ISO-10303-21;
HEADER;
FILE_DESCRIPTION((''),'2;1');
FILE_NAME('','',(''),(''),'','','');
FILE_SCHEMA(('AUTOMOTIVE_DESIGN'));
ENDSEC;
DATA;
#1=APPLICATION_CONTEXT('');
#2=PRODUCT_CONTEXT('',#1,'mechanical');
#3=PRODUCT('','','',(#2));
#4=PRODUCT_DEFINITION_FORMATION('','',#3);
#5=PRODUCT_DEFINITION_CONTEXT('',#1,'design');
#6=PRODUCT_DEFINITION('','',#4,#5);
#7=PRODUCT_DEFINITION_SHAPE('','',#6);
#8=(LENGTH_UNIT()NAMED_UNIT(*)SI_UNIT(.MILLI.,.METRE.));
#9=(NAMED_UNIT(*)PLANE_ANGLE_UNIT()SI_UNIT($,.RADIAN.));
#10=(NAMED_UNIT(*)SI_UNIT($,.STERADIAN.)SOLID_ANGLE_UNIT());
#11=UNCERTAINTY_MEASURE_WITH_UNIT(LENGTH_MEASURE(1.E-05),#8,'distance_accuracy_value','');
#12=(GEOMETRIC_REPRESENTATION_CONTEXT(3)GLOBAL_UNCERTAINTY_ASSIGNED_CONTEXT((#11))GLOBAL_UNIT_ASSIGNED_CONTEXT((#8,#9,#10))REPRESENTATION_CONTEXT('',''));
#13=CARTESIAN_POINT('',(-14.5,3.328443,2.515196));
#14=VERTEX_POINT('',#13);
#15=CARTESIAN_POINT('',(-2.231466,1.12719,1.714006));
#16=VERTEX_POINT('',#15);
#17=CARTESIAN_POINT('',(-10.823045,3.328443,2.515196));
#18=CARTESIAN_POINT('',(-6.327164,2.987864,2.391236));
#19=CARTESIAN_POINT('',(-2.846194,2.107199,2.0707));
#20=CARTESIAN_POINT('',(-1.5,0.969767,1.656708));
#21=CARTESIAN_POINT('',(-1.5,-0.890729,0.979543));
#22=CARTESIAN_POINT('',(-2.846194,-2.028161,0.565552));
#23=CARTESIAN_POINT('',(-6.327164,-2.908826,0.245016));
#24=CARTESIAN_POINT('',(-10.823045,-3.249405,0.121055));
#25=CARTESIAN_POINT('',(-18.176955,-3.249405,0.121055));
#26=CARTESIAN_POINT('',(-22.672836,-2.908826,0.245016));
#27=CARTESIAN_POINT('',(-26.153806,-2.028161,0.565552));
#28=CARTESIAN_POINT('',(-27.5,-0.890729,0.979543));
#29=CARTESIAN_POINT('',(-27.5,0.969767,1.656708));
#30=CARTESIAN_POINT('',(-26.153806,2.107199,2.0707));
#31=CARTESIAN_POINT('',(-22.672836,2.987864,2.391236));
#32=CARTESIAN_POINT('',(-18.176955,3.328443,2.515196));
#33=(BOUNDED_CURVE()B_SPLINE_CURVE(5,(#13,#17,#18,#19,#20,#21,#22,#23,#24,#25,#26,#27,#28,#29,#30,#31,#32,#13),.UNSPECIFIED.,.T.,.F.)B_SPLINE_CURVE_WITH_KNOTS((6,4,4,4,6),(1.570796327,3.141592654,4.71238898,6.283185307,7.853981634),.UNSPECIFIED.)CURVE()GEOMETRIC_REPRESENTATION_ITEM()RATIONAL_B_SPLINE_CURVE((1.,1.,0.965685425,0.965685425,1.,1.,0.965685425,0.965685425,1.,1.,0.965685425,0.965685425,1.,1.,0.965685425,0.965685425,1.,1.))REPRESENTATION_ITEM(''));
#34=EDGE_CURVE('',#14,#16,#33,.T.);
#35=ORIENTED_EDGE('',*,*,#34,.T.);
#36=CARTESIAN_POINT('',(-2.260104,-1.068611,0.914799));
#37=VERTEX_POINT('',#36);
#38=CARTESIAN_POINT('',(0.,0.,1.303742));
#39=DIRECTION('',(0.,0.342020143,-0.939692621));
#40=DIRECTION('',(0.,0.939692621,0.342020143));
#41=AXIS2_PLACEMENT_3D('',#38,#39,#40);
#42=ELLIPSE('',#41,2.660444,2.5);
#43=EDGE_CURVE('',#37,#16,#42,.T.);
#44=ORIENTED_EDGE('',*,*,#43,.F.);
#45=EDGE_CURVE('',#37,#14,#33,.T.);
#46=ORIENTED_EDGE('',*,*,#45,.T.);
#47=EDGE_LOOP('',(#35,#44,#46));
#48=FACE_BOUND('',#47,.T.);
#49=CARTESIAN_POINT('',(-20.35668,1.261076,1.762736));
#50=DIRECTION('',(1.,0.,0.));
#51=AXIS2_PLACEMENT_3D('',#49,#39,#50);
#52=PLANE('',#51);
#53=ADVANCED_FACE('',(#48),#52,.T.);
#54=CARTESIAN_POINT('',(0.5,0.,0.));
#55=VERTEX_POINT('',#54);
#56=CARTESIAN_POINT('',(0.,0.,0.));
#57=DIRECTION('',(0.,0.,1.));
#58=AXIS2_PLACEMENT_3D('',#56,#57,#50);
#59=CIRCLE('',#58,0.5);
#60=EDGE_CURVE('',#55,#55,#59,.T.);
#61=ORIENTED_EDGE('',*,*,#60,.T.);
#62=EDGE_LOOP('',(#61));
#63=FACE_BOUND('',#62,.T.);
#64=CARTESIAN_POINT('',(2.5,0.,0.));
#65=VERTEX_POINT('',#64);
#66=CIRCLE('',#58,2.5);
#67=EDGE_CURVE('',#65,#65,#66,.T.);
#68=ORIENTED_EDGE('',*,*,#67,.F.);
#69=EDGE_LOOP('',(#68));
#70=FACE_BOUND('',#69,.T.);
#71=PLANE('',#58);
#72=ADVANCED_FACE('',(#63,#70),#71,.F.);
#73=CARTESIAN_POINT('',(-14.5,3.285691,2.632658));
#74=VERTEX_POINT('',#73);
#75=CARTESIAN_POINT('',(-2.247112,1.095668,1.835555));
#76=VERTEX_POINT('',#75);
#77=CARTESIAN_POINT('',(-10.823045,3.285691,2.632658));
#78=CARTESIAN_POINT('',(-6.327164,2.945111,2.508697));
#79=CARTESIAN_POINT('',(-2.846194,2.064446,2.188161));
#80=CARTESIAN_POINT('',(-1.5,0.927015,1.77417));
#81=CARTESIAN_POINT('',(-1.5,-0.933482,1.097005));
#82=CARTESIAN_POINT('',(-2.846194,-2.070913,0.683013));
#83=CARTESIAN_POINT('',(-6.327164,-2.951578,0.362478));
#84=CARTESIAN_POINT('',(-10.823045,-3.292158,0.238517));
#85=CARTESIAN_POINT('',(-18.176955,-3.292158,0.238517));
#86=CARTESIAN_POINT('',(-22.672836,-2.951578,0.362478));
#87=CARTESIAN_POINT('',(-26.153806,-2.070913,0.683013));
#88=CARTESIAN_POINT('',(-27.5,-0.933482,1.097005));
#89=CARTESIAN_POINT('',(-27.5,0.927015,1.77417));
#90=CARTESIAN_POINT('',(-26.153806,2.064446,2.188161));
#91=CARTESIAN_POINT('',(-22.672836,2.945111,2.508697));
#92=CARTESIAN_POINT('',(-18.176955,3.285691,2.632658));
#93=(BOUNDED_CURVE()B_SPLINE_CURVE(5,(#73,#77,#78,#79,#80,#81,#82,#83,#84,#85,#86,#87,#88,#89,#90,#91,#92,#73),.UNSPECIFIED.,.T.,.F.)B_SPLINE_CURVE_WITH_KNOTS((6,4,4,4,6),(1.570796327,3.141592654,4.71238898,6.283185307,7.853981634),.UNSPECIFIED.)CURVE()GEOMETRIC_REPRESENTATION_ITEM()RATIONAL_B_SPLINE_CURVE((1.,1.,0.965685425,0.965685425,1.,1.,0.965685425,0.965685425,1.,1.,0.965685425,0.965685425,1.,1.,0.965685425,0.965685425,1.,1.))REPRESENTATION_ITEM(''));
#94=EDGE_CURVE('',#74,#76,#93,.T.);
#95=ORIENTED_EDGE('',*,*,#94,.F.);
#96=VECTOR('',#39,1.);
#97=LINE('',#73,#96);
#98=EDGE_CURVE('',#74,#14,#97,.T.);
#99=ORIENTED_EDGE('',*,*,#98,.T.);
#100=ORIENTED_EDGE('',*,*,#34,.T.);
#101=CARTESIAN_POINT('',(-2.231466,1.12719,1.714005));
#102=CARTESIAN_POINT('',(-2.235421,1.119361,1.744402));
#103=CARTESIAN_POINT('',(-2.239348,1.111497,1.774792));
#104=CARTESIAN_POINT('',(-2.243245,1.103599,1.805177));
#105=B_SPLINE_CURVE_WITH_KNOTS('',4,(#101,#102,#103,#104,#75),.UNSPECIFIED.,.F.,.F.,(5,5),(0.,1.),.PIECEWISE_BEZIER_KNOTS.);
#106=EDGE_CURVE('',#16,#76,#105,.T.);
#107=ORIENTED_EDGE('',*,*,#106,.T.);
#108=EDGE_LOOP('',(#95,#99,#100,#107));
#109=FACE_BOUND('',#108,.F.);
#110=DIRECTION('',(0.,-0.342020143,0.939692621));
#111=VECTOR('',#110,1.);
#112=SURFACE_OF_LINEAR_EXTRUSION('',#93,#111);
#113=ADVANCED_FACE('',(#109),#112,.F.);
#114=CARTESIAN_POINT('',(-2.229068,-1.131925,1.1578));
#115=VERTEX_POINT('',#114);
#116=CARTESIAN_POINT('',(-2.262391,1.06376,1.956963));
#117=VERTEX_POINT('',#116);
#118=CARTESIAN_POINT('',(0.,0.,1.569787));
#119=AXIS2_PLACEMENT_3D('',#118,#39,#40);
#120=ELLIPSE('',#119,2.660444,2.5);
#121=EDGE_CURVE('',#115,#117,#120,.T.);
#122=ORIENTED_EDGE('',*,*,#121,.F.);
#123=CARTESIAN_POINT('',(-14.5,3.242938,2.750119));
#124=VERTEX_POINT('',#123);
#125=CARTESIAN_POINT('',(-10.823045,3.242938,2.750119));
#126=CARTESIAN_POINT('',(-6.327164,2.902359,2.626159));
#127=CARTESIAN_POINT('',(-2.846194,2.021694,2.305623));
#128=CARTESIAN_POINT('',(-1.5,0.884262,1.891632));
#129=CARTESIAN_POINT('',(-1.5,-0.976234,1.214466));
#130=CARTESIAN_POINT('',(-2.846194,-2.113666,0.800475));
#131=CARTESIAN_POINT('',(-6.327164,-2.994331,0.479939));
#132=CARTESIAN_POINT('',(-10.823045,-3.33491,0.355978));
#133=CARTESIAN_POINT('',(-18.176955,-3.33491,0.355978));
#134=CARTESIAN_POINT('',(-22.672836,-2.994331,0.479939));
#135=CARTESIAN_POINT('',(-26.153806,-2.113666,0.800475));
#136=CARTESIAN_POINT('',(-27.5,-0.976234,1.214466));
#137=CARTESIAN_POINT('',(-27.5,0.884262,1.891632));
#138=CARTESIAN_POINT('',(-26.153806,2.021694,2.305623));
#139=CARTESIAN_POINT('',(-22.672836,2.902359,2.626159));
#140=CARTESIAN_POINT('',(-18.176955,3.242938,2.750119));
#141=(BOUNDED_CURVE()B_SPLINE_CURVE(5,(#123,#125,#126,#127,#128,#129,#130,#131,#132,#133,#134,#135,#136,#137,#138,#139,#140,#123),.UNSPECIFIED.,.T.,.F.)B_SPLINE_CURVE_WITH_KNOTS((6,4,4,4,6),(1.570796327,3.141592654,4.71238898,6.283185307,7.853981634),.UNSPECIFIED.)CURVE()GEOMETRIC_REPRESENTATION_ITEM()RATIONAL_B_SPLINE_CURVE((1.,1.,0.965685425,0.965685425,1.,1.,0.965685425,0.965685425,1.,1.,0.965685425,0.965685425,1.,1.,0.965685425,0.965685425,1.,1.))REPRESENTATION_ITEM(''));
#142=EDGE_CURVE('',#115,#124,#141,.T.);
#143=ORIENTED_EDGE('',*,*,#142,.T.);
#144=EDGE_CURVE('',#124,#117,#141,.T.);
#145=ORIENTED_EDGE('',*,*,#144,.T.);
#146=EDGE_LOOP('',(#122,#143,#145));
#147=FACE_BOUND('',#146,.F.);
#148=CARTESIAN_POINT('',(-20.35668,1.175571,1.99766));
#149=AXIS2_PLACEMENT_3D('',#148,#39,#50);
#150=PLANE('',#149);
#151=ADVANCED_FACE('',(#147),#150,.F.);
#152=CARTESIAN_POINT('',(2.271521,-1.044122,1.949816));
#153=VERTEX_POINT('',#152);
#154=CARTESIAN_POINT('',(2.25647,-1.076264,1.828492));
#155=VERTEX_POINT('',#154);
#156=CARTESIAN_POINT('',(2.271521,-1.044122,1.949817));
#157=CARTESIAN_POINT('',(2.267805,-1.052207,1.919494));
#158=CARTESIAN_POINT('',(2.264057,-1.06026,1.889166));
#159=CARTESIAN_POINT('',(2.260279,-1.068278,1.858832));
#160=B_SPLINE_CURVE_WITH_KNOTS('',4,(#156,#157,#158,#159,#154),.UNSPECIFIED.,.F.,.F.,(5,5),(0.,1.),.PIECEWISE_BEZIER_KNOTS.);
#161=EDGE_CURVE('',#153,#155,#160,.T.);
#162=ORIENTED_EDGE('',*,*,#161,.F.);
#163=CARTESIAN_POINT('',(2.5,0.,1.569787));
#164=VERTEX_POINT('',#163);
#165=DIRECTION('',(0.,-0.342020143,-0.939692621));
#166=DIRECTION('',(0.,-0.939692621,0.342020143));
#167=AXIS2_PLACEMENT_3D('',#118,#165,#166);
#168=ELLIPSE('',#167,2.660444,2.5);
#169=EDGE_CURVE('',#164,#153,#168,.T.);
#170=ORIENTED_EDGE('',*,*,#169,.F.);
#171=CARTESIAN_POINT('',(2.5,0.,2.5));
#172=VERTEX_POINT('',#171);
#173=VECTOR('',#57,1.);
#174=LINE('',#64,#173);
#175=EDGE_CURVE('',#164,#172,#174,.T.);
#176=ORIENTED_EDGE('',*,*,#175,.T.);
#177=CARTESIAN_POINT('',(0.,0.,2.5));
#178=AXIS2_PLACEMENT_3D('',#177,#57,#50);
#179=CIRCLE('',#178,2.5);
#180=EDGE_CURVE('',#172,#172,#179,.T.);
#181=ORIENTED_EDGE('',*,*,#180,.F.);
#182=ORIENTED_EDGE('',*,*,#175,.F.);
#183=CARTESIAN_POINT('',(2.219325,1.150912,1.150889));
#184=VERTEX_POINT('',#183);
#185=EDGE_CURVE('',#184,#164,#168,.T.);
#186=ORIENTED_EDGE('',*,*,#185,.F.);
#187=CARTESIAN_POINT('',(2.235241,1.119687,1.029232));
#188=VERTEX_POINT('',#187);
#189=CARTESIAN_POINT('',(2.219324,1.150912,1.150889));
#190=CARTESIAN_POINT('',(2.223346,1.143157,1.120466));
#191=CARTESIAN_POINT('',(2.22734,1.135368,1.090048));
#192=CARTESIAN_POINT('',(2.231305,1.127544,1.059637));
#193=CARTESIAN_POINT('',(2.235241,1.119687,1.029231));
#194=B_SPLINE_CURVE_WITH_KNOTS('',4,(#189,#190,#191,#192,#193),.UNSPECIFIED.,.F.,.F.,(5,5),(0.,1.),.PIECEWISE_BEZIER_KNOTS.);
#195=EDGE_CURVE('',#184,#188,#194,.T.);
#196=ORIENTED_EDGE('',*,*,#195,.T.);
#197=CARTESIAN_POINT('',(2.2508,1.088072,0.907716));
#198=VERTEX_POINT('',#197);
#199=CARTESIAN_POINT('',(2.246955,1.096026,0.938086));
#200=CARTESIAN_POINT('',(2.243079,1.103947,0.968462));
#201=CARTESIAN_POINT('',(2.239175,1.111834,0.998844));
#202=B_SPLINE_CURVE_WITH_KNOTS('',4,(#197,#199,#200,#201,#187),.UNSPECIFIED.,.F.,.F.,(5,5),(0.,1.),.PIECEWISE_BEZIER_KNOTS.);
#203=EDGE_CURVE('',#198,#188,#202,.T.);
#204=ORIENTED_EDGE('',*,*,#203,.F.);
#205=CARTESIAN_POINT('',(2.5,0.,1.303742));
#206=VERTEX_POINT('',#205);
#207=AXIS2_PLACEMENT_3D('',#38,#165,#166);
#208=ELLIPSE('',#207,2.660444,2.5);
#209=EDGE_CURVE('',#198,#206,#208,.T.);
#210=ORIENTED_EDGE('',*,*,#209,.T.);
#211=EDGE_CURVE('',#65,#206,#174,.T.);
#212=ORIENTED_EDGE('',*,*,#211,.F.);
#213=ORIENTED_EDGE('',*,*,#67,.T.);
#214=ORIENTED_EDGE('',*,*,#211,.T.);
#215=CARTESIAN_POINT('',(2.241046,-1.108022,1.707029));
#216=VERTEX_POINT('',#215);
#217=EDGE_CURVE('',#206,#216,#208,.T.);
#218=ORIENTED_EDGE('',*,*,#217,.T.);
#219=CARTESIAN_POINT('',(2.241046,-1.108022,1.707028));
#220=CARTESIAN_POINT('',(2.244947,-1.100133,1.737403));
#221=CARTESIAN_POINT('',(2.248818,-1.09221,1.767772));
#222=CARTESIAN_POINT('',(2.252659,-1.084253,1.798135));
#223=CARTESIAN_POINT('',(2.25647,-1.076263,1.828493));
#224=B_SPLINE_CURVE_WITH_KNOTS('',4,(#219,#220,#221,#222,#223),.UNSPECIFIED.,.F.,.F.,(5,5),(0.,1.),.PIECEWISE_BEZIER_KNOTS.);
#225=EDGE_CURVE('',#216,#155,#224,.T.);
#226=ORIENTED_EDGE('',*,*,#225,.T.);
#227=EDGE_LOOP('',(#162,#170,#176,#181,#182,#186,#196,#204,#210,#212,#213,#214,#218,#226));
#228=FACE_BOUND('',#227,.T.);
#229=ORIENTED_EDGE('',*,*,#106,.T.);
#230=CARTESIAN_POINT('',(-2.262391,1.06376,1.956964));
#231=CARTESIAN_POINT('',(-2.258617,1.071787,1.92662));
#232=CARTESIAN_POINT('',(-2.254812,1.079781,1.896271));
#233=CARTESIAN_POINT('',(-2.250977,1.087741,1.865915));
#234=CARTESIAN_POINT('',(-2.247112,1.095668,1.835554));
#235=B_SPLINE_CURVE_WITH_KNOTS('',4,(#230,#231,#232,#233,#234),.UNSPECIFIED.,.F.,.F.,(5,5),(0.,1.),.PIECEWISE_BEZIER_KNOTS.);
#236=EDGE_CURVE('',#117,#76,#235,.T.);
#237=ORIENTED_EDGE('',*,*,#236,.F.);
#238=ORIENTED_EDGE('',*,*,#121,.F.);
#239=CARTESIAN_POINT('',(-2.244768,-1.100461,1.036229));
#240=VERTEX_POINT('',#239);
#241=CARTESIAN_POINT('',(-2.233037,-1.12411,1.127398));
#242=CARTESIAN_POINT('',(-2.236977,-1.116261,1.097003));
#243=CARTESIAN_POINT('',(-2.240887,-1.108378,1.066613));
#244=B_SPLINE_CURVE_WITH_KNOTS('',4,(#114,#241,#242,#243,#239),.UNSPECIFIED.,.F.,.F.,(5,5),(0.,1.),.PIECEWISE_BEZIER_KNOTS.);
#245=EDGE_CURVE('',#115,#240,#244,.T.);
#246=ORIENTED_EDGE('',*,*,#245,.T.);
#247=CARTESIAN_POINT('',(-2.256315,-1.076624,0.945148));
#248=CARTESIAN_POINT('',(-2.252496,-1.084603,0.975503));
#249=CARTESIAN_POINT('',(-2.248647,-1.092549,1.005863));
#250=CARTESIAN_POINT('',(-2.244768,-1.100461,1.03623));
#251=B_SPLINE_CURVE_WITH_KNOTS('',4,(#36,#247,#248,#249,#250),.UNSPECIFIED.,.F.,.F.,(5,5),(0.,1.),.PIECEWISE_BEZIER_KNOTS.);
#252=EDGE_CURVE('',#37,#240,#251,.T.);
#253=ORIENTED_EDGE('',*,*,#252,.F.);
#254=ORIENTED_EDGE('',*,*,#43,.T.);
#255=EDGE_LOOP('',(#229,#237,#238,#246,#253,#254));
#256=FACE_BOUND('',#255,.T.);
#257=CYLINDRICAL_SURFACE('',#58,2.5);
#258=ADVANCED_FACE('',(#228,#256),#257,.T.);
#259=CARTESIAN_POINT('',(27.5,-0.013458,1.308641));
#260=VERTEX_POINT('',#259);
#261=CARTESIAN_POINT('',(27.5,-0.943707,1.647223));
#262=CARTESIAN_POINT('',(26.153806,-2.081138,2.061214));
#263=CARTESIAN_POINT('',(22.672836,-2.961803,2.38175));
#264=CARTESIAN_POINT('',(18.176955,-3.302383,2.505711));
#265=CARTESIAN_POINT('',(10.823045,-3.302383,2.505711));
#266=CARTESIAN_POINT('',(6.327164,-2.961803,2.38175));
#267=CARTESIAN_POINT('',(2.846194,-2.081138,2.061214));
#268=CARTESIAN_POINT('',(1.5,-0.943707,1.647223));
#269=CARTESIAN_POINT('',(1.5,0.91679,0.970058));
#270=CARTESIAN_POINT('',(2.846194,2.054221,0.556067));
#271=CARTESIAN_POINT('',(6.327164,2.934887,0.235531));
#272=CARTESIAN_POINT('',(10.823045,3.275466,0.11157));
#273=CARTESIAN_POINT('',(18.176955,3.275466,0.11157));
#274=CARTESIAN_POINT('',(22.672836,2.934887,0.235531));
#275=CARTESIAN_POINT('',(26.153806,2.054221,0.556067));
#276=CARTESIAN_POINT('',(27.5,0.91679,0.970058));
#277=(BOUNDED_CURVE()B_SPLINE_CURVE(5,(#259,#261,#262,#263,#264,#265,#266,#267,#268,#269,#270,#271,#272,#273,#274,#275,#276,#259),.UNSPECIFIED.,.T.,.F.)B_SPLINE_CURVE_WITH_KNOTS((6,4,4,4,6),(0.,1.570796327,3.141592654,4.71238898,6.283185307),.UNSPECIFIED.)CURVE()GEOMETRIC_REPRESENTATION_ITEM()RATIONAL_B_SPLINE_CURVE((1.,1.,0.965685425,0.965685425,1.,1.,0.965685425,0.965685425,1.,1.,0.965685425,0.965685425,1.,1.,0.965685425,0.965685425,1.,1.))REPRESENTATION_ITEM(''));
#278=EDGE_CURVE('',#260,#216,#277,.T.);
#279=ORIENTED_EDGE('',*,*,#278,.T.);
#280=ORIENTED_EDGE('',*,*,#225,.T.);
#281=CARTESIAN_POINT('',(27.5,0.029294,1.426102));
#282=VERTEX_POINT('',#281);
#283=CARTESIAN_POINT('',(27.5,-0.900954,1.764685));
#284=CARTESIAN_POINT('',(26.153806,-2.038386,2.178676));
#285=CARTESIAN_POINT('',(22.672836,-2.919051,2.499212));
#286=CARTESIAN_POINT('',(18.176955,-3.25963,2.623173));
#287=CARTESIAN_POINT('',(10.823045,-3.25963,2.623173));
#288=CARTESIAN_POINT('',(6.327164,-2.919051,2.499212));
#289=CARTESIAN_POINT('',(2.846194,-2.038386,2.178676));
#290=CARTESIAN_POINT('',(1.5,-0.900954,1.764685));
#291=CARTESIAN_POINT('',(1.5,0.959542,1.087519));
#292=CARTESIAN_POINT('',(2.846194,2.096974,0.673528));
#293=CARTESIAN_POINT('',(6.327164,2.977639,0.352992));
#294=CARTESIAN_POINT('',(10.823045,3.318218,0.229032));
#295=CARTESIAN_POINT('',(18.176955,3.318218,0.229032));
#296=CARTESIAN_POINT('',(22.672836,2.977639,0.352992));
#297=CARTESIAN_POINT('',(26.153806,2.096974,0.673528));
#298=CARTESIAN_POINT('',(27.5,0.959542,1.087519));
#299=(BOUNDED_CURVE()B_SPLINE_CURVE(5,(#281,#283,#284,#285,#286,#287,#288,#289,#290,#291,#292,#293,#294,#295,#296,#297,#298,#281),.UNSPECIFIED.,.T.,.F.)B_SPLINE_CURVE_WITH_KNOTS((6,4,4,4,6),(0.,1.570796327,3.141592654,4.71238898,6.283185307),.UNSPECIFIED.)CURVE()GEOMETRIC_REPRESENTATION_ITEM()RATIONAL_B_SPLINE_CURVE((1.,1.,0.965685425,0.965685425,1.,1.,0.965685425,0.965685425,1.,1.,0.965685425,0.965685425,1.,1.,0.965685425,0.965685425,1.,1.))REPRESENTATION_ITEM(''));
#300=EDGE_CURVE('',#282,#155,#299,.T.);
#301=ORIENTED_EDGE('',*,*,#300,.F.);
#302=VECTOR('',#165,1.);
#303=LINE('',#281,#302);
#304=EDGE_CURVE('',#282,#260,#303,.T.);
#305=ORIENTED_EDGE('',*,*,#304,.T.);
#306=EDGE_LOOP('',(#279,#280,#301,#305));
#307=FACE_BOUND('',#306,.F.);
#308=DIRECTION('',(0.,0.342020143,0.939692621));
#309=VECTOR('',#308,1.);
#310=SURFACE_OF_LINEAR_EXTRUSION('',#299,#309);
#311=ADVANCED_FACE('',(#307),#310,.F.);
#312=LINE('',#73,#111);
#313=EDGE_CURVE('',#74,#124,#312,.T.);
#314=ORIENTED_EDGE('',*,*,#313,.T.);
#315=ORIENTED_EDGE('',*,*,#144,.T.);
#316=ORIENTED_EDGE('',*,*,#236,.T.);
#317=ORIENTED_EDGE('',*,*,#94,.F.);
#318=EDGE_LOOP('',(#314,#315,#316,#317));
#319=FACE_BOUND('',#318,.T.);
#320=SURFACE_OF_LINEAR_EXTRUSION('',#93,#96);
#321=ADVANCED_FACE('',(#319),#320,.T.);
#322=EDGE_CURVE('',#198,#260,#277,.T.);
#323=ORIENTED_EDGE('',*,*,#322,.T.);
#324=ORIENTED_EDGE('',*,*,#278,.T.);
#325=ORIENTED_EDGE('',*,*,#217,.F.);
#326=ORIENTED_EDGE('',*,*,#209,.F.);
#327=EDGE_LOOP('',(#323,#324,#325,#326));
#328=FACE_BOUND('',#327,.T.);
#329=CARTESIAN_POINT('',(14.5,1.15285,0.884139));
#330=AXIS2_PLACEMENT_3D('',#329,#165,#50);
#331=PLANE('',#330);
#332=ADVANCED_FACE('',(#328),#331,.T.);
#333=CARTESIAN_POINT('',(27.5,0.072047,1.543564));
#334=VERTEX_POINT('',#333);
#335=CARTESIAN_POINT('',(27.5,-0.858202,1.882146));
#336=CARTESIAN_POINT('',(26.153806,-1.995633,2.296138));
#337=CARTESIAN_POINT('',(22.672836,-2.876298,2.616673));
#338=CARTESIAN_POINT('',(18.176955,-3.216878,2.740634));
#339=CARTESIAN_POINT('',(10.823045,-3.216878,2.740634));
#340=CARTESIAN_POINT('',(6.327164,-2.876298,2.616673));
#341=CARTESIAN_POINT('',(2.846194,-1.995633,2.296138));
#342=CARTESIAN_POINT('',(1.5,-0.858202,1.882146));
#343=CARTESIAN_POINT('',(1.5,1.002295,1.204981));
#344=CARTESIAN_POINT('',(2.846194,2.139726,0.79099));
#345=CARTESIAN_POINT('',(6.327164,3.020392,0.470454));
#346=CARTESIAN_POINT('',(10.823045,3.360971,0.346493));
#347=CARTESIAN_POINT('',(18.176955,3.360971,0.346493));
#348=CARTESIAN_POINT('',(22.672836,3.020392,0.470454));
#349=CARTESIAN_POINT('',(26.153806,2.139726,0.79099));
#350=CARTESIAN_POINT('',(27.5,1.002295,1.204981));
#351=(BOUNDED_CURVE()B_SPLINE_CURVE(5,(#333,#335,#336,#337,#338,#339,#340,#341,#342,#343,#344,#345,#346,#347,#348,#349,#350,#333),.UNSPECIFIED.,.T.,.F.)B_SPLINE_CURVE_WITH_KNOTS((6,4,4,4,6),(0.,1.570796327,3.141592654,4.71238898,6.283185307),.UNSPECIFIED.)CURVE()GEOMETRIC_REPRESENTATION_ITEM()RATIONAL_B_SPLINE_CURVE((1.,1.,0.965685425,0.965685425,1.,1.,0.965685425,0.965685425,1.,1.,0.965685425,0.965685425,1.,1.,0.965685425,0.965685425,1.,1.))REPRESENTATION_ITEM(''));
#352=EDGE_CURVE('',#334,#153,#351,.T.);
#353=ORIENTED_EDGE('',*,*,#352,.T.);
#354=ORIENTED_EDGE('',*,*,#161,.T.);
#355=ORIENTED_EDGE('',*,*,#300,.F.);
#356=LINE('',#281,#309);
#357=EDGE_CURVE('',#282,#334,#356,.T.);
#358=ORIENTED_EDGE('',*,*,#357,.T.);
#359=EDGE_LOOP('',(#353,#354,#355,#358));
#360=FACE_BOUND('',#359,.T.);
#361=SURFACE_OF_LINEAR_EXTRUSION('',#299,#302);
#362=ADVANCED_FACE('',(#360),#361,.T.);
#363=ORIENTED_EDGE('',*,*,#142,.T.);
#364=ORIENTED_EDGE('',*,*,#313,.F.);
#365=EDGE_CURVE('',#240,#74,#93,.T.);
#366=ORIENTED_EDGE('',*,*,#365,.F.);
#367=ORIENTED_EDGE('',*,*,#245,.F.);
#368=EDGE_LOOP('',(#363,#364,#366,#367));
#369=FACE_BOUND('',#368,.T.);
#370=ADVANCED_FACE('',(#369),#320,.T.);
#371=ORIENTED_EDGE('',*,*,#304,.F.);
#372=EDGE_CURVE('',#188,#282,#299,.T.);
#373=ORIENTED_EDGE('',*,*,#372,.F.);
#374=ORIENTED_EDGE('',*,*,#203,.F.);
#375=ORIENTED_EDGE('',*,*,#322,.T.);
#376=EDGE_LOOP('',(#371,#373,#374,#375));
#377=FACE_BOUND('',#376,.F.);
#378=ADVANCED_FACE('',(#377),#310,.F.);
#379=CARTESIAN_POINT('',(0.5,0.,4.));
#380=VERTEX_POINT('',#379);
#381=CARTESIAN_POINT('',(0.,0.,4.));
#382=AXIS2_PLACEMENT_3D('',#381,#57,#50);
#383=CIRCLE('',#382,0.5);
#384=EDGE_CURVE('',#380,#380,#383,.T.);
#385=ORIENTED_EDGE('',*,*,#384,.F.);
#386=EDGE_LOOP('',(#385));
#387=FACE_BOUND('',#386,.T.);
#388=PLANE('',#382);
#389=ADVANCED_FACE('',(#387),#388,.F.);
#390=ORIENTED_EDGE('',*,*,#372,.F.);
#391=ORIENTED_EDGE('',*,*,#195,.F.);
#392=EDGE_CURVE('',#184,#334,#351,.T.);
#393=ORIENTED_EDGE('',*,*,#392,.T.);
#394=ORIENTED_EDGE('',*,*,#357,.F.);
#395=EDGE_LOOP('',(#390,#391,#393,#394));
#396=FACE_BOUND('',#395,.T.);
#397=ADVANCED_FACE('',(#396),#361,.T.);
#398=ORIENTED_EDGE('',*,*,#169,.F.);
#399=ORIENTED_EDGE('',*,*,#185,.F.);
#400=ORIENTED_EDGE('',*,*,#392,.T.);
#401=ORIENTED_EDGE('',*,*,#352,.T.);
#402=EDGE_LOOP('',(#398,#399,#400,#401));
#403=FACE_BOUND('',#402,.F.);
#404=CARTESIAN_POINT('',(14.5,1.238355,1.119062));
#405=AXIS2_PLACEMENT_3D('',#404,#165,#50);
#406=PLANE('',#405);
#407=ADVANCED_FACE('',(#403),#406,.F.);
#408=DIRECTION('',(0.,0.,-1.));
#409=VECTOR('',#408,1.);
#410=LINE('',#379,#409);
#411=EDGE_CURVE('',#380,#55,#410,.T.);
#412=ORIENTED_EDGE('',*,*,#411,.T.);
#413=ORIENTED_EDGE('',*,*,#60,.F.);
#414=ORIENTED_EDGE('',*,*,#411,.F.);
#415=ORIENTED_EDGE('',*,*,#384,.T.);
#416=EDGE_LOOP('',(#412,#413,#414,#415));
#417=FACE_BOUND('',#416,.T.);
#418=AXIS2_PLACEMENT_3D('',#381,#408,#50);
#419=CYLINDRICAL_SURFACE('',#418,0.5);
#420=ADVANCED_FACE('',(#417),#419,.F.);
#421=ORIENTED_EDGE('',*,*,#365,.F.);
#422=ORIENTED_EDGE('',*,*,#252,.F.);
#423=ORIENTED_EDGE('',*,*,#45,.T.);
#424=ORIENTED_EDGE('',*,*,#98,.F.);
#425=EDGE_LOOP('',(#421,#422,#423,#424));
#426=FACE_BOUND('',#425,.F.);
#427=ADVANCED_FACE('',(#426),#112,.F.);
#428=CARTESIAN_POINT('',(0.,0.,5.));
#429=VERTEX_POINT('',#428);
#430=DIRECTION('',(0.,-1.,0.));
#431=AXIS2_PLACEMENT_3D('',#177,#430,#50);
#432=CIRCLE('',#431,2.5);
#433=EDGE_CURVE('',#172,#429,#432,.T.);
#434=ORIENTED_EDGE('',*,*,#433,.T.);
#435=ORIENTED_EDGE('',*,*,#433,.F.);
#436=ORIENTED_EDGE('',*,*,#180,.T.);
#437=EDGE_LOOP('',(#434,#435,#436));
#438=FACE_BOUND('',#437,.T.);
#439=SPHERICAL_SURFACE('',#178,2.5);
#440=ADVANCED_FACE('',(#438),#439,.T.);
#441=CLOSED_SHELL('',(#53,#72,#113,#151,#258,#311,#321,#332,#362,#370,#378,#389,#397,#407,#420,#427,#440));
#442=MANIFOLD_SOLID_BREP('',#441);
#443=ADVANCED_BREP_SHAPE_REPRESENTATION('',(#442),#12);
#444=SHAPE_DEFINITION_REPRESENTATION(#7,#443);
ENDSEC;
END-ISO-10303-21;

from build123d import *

# Parameters (mm, degrees)
F6_DEPTH = 0.125
F8_DEPTH = 0.125


with BuildPart() as f1:
    # F0 (on Front) → F1 (revolve)
    with BuildSketch(Plane.XZ):
        with BuildLine():
            Line((0, 5), (0, 4))
            Line((0, 4), (0.5, 4))
            Line((0.5, 4), (0.5, 0))
            Line((0.5, 0), (2.5, 0))
            Line((2.5, 0), (2.5, 2.5))
            ThreePointArc((2.5, 2.5), (1.767766953, 4.267766953), (0, 5))
        make_face()
    revolve(axis=Axis((0, 0, 2.5), (0, 0, 1)))

    # F5 (on face) → F6 (join, symmetric)
    with BuildSketch(Plane(origin=(0, -0.461767139, 1.2686947874), x_dir=(1, 0, 0), z_dir=(0, 0.3420201433, -0.9396926208))):
        with BuildLine():
            Line((-14.5, -3.9879612534), (-14.5, -0.4879612534))
            Line((-14.5, -0.4879612534), (-27.5, -0.4879612534))
            add(Edge.make_bspline(
                [(-27.5, -0.4879612534), (-27.5, -3.9879612534), (-14.5, -3.9879612534)],
                knots=[0, 0, 0, 1.5707963268, 1.5707963268, 1.5707963268], degree=2, weights=[1, 0.7071067812, 1]))
        make_face()
        with BuildLine():
            Line((-27.5, -0.4879612534), (-14.5, -0.4879612534))
            Line((-14.5, -0.4879612534), (-1.5, -0.4879612534))
            add(Edge.make_bspline(
                [(-1.5, -0.4879612534), (-1.5, 3.0120387466), (-14.5, 3.0120387466), (-27.5, 3.0120387466), (-27.5, -0.4879612534)],
                knots=[3.1415926536, 3.1415926536, 3.1415926536, 4.7123889804, 4.7123889804, 6.2831853072, 6.2831853072, 6.2831853072], degree=2, weights=[1, 0.7071067812, 1, 0.7071067812, 1]))
        make_face()
        with BuildLine():
            Line((-1.5, -0.4879612534), (-14.5, -0.4879612534))
            Line((-14.5, -0.4879612534), (-14.5, -3.9879612534))
            add(Edge.make_bspline(
                [(-14.5, -3.9879612534), (-1.5, -3.9879612534), (-1.5, -0.4879612534)],
                knots=[1.5707963268, 1.5707963268, 1.5707963268, 3.1415926536, 3.1415926536, 3.1415926536], degree=2, weights=[1, 0.7071067812, 1]))
        make_face()
    extrude(amount=F6_DEPTH, both=True)

    # F7 (on face) → F8 (join, symmetric)
    with BuildSketch(Plane(origin=(0, 0.461767139, 1.2686947874), x_dir=(1, 0, 0), z_dir=(0, -0.3420201433, -0.9396926208))):
        with BuildLine():
            Line((27.5, 0.4602281842), (14.5, 0.4602281842))
            Line((14.5, 0.4602281842), (1.5, 0.4602281842))
            add(Edge.make_bspline(
                [(1.5, 0.4602281842), (1.5, -3.0397718158), (14.5, -3.0397718158), (27.5, -3.0397718158), (27.5, 0.4602281842)],
                knots=[3.1415926536, 3.1415926536, 3.1415926536, 4.7123889804, 4.7123889804, 6.2831853072, 6.2831853072, 6.2831853072], degree=2, weights=[1, 0.7071067812, 1, 0.7071067812, 1]))
        make_face()
        with BuildLine():
            Line((1.5, 0.4602281842), (14.5, 0.4602281842))
            Line((14.5, 0.4602281842), (14.5, 3.9602281842))
            add(Edge.make_bspline(
                [(14.5, 3.9602281842), (1.5, 3.9602281842), (1.5, 0.4602281842)],
                knots=[1.5707963268, 1.5707963268, 1.5707963268, 3.1415926536, 3.1415926536, 3.1415926536], degree=2, weights=[1, 0.7071067812, 1]))
        make_face()
        with BuildLine():
            Line((14.5, 3.9602281842), (14.5, 0.4602281842))
            Line((14.5, 0.4602281842), (27.5, 0.4602281842))
            add(Edge.make_bspline(
                [(27.5, 0.4602281842), (27.5, 3.9602281842), (14.5, 3.9602281842)],
                knots=[0, 0, 0, 1.5707963268, 1.5707963268, 1.5707963268], degree=2, weights=[1, 0.7071067812, 1]))
        make_face()
    extrude(amount=F8_DEPTH, both=True)


solid = f1.part
